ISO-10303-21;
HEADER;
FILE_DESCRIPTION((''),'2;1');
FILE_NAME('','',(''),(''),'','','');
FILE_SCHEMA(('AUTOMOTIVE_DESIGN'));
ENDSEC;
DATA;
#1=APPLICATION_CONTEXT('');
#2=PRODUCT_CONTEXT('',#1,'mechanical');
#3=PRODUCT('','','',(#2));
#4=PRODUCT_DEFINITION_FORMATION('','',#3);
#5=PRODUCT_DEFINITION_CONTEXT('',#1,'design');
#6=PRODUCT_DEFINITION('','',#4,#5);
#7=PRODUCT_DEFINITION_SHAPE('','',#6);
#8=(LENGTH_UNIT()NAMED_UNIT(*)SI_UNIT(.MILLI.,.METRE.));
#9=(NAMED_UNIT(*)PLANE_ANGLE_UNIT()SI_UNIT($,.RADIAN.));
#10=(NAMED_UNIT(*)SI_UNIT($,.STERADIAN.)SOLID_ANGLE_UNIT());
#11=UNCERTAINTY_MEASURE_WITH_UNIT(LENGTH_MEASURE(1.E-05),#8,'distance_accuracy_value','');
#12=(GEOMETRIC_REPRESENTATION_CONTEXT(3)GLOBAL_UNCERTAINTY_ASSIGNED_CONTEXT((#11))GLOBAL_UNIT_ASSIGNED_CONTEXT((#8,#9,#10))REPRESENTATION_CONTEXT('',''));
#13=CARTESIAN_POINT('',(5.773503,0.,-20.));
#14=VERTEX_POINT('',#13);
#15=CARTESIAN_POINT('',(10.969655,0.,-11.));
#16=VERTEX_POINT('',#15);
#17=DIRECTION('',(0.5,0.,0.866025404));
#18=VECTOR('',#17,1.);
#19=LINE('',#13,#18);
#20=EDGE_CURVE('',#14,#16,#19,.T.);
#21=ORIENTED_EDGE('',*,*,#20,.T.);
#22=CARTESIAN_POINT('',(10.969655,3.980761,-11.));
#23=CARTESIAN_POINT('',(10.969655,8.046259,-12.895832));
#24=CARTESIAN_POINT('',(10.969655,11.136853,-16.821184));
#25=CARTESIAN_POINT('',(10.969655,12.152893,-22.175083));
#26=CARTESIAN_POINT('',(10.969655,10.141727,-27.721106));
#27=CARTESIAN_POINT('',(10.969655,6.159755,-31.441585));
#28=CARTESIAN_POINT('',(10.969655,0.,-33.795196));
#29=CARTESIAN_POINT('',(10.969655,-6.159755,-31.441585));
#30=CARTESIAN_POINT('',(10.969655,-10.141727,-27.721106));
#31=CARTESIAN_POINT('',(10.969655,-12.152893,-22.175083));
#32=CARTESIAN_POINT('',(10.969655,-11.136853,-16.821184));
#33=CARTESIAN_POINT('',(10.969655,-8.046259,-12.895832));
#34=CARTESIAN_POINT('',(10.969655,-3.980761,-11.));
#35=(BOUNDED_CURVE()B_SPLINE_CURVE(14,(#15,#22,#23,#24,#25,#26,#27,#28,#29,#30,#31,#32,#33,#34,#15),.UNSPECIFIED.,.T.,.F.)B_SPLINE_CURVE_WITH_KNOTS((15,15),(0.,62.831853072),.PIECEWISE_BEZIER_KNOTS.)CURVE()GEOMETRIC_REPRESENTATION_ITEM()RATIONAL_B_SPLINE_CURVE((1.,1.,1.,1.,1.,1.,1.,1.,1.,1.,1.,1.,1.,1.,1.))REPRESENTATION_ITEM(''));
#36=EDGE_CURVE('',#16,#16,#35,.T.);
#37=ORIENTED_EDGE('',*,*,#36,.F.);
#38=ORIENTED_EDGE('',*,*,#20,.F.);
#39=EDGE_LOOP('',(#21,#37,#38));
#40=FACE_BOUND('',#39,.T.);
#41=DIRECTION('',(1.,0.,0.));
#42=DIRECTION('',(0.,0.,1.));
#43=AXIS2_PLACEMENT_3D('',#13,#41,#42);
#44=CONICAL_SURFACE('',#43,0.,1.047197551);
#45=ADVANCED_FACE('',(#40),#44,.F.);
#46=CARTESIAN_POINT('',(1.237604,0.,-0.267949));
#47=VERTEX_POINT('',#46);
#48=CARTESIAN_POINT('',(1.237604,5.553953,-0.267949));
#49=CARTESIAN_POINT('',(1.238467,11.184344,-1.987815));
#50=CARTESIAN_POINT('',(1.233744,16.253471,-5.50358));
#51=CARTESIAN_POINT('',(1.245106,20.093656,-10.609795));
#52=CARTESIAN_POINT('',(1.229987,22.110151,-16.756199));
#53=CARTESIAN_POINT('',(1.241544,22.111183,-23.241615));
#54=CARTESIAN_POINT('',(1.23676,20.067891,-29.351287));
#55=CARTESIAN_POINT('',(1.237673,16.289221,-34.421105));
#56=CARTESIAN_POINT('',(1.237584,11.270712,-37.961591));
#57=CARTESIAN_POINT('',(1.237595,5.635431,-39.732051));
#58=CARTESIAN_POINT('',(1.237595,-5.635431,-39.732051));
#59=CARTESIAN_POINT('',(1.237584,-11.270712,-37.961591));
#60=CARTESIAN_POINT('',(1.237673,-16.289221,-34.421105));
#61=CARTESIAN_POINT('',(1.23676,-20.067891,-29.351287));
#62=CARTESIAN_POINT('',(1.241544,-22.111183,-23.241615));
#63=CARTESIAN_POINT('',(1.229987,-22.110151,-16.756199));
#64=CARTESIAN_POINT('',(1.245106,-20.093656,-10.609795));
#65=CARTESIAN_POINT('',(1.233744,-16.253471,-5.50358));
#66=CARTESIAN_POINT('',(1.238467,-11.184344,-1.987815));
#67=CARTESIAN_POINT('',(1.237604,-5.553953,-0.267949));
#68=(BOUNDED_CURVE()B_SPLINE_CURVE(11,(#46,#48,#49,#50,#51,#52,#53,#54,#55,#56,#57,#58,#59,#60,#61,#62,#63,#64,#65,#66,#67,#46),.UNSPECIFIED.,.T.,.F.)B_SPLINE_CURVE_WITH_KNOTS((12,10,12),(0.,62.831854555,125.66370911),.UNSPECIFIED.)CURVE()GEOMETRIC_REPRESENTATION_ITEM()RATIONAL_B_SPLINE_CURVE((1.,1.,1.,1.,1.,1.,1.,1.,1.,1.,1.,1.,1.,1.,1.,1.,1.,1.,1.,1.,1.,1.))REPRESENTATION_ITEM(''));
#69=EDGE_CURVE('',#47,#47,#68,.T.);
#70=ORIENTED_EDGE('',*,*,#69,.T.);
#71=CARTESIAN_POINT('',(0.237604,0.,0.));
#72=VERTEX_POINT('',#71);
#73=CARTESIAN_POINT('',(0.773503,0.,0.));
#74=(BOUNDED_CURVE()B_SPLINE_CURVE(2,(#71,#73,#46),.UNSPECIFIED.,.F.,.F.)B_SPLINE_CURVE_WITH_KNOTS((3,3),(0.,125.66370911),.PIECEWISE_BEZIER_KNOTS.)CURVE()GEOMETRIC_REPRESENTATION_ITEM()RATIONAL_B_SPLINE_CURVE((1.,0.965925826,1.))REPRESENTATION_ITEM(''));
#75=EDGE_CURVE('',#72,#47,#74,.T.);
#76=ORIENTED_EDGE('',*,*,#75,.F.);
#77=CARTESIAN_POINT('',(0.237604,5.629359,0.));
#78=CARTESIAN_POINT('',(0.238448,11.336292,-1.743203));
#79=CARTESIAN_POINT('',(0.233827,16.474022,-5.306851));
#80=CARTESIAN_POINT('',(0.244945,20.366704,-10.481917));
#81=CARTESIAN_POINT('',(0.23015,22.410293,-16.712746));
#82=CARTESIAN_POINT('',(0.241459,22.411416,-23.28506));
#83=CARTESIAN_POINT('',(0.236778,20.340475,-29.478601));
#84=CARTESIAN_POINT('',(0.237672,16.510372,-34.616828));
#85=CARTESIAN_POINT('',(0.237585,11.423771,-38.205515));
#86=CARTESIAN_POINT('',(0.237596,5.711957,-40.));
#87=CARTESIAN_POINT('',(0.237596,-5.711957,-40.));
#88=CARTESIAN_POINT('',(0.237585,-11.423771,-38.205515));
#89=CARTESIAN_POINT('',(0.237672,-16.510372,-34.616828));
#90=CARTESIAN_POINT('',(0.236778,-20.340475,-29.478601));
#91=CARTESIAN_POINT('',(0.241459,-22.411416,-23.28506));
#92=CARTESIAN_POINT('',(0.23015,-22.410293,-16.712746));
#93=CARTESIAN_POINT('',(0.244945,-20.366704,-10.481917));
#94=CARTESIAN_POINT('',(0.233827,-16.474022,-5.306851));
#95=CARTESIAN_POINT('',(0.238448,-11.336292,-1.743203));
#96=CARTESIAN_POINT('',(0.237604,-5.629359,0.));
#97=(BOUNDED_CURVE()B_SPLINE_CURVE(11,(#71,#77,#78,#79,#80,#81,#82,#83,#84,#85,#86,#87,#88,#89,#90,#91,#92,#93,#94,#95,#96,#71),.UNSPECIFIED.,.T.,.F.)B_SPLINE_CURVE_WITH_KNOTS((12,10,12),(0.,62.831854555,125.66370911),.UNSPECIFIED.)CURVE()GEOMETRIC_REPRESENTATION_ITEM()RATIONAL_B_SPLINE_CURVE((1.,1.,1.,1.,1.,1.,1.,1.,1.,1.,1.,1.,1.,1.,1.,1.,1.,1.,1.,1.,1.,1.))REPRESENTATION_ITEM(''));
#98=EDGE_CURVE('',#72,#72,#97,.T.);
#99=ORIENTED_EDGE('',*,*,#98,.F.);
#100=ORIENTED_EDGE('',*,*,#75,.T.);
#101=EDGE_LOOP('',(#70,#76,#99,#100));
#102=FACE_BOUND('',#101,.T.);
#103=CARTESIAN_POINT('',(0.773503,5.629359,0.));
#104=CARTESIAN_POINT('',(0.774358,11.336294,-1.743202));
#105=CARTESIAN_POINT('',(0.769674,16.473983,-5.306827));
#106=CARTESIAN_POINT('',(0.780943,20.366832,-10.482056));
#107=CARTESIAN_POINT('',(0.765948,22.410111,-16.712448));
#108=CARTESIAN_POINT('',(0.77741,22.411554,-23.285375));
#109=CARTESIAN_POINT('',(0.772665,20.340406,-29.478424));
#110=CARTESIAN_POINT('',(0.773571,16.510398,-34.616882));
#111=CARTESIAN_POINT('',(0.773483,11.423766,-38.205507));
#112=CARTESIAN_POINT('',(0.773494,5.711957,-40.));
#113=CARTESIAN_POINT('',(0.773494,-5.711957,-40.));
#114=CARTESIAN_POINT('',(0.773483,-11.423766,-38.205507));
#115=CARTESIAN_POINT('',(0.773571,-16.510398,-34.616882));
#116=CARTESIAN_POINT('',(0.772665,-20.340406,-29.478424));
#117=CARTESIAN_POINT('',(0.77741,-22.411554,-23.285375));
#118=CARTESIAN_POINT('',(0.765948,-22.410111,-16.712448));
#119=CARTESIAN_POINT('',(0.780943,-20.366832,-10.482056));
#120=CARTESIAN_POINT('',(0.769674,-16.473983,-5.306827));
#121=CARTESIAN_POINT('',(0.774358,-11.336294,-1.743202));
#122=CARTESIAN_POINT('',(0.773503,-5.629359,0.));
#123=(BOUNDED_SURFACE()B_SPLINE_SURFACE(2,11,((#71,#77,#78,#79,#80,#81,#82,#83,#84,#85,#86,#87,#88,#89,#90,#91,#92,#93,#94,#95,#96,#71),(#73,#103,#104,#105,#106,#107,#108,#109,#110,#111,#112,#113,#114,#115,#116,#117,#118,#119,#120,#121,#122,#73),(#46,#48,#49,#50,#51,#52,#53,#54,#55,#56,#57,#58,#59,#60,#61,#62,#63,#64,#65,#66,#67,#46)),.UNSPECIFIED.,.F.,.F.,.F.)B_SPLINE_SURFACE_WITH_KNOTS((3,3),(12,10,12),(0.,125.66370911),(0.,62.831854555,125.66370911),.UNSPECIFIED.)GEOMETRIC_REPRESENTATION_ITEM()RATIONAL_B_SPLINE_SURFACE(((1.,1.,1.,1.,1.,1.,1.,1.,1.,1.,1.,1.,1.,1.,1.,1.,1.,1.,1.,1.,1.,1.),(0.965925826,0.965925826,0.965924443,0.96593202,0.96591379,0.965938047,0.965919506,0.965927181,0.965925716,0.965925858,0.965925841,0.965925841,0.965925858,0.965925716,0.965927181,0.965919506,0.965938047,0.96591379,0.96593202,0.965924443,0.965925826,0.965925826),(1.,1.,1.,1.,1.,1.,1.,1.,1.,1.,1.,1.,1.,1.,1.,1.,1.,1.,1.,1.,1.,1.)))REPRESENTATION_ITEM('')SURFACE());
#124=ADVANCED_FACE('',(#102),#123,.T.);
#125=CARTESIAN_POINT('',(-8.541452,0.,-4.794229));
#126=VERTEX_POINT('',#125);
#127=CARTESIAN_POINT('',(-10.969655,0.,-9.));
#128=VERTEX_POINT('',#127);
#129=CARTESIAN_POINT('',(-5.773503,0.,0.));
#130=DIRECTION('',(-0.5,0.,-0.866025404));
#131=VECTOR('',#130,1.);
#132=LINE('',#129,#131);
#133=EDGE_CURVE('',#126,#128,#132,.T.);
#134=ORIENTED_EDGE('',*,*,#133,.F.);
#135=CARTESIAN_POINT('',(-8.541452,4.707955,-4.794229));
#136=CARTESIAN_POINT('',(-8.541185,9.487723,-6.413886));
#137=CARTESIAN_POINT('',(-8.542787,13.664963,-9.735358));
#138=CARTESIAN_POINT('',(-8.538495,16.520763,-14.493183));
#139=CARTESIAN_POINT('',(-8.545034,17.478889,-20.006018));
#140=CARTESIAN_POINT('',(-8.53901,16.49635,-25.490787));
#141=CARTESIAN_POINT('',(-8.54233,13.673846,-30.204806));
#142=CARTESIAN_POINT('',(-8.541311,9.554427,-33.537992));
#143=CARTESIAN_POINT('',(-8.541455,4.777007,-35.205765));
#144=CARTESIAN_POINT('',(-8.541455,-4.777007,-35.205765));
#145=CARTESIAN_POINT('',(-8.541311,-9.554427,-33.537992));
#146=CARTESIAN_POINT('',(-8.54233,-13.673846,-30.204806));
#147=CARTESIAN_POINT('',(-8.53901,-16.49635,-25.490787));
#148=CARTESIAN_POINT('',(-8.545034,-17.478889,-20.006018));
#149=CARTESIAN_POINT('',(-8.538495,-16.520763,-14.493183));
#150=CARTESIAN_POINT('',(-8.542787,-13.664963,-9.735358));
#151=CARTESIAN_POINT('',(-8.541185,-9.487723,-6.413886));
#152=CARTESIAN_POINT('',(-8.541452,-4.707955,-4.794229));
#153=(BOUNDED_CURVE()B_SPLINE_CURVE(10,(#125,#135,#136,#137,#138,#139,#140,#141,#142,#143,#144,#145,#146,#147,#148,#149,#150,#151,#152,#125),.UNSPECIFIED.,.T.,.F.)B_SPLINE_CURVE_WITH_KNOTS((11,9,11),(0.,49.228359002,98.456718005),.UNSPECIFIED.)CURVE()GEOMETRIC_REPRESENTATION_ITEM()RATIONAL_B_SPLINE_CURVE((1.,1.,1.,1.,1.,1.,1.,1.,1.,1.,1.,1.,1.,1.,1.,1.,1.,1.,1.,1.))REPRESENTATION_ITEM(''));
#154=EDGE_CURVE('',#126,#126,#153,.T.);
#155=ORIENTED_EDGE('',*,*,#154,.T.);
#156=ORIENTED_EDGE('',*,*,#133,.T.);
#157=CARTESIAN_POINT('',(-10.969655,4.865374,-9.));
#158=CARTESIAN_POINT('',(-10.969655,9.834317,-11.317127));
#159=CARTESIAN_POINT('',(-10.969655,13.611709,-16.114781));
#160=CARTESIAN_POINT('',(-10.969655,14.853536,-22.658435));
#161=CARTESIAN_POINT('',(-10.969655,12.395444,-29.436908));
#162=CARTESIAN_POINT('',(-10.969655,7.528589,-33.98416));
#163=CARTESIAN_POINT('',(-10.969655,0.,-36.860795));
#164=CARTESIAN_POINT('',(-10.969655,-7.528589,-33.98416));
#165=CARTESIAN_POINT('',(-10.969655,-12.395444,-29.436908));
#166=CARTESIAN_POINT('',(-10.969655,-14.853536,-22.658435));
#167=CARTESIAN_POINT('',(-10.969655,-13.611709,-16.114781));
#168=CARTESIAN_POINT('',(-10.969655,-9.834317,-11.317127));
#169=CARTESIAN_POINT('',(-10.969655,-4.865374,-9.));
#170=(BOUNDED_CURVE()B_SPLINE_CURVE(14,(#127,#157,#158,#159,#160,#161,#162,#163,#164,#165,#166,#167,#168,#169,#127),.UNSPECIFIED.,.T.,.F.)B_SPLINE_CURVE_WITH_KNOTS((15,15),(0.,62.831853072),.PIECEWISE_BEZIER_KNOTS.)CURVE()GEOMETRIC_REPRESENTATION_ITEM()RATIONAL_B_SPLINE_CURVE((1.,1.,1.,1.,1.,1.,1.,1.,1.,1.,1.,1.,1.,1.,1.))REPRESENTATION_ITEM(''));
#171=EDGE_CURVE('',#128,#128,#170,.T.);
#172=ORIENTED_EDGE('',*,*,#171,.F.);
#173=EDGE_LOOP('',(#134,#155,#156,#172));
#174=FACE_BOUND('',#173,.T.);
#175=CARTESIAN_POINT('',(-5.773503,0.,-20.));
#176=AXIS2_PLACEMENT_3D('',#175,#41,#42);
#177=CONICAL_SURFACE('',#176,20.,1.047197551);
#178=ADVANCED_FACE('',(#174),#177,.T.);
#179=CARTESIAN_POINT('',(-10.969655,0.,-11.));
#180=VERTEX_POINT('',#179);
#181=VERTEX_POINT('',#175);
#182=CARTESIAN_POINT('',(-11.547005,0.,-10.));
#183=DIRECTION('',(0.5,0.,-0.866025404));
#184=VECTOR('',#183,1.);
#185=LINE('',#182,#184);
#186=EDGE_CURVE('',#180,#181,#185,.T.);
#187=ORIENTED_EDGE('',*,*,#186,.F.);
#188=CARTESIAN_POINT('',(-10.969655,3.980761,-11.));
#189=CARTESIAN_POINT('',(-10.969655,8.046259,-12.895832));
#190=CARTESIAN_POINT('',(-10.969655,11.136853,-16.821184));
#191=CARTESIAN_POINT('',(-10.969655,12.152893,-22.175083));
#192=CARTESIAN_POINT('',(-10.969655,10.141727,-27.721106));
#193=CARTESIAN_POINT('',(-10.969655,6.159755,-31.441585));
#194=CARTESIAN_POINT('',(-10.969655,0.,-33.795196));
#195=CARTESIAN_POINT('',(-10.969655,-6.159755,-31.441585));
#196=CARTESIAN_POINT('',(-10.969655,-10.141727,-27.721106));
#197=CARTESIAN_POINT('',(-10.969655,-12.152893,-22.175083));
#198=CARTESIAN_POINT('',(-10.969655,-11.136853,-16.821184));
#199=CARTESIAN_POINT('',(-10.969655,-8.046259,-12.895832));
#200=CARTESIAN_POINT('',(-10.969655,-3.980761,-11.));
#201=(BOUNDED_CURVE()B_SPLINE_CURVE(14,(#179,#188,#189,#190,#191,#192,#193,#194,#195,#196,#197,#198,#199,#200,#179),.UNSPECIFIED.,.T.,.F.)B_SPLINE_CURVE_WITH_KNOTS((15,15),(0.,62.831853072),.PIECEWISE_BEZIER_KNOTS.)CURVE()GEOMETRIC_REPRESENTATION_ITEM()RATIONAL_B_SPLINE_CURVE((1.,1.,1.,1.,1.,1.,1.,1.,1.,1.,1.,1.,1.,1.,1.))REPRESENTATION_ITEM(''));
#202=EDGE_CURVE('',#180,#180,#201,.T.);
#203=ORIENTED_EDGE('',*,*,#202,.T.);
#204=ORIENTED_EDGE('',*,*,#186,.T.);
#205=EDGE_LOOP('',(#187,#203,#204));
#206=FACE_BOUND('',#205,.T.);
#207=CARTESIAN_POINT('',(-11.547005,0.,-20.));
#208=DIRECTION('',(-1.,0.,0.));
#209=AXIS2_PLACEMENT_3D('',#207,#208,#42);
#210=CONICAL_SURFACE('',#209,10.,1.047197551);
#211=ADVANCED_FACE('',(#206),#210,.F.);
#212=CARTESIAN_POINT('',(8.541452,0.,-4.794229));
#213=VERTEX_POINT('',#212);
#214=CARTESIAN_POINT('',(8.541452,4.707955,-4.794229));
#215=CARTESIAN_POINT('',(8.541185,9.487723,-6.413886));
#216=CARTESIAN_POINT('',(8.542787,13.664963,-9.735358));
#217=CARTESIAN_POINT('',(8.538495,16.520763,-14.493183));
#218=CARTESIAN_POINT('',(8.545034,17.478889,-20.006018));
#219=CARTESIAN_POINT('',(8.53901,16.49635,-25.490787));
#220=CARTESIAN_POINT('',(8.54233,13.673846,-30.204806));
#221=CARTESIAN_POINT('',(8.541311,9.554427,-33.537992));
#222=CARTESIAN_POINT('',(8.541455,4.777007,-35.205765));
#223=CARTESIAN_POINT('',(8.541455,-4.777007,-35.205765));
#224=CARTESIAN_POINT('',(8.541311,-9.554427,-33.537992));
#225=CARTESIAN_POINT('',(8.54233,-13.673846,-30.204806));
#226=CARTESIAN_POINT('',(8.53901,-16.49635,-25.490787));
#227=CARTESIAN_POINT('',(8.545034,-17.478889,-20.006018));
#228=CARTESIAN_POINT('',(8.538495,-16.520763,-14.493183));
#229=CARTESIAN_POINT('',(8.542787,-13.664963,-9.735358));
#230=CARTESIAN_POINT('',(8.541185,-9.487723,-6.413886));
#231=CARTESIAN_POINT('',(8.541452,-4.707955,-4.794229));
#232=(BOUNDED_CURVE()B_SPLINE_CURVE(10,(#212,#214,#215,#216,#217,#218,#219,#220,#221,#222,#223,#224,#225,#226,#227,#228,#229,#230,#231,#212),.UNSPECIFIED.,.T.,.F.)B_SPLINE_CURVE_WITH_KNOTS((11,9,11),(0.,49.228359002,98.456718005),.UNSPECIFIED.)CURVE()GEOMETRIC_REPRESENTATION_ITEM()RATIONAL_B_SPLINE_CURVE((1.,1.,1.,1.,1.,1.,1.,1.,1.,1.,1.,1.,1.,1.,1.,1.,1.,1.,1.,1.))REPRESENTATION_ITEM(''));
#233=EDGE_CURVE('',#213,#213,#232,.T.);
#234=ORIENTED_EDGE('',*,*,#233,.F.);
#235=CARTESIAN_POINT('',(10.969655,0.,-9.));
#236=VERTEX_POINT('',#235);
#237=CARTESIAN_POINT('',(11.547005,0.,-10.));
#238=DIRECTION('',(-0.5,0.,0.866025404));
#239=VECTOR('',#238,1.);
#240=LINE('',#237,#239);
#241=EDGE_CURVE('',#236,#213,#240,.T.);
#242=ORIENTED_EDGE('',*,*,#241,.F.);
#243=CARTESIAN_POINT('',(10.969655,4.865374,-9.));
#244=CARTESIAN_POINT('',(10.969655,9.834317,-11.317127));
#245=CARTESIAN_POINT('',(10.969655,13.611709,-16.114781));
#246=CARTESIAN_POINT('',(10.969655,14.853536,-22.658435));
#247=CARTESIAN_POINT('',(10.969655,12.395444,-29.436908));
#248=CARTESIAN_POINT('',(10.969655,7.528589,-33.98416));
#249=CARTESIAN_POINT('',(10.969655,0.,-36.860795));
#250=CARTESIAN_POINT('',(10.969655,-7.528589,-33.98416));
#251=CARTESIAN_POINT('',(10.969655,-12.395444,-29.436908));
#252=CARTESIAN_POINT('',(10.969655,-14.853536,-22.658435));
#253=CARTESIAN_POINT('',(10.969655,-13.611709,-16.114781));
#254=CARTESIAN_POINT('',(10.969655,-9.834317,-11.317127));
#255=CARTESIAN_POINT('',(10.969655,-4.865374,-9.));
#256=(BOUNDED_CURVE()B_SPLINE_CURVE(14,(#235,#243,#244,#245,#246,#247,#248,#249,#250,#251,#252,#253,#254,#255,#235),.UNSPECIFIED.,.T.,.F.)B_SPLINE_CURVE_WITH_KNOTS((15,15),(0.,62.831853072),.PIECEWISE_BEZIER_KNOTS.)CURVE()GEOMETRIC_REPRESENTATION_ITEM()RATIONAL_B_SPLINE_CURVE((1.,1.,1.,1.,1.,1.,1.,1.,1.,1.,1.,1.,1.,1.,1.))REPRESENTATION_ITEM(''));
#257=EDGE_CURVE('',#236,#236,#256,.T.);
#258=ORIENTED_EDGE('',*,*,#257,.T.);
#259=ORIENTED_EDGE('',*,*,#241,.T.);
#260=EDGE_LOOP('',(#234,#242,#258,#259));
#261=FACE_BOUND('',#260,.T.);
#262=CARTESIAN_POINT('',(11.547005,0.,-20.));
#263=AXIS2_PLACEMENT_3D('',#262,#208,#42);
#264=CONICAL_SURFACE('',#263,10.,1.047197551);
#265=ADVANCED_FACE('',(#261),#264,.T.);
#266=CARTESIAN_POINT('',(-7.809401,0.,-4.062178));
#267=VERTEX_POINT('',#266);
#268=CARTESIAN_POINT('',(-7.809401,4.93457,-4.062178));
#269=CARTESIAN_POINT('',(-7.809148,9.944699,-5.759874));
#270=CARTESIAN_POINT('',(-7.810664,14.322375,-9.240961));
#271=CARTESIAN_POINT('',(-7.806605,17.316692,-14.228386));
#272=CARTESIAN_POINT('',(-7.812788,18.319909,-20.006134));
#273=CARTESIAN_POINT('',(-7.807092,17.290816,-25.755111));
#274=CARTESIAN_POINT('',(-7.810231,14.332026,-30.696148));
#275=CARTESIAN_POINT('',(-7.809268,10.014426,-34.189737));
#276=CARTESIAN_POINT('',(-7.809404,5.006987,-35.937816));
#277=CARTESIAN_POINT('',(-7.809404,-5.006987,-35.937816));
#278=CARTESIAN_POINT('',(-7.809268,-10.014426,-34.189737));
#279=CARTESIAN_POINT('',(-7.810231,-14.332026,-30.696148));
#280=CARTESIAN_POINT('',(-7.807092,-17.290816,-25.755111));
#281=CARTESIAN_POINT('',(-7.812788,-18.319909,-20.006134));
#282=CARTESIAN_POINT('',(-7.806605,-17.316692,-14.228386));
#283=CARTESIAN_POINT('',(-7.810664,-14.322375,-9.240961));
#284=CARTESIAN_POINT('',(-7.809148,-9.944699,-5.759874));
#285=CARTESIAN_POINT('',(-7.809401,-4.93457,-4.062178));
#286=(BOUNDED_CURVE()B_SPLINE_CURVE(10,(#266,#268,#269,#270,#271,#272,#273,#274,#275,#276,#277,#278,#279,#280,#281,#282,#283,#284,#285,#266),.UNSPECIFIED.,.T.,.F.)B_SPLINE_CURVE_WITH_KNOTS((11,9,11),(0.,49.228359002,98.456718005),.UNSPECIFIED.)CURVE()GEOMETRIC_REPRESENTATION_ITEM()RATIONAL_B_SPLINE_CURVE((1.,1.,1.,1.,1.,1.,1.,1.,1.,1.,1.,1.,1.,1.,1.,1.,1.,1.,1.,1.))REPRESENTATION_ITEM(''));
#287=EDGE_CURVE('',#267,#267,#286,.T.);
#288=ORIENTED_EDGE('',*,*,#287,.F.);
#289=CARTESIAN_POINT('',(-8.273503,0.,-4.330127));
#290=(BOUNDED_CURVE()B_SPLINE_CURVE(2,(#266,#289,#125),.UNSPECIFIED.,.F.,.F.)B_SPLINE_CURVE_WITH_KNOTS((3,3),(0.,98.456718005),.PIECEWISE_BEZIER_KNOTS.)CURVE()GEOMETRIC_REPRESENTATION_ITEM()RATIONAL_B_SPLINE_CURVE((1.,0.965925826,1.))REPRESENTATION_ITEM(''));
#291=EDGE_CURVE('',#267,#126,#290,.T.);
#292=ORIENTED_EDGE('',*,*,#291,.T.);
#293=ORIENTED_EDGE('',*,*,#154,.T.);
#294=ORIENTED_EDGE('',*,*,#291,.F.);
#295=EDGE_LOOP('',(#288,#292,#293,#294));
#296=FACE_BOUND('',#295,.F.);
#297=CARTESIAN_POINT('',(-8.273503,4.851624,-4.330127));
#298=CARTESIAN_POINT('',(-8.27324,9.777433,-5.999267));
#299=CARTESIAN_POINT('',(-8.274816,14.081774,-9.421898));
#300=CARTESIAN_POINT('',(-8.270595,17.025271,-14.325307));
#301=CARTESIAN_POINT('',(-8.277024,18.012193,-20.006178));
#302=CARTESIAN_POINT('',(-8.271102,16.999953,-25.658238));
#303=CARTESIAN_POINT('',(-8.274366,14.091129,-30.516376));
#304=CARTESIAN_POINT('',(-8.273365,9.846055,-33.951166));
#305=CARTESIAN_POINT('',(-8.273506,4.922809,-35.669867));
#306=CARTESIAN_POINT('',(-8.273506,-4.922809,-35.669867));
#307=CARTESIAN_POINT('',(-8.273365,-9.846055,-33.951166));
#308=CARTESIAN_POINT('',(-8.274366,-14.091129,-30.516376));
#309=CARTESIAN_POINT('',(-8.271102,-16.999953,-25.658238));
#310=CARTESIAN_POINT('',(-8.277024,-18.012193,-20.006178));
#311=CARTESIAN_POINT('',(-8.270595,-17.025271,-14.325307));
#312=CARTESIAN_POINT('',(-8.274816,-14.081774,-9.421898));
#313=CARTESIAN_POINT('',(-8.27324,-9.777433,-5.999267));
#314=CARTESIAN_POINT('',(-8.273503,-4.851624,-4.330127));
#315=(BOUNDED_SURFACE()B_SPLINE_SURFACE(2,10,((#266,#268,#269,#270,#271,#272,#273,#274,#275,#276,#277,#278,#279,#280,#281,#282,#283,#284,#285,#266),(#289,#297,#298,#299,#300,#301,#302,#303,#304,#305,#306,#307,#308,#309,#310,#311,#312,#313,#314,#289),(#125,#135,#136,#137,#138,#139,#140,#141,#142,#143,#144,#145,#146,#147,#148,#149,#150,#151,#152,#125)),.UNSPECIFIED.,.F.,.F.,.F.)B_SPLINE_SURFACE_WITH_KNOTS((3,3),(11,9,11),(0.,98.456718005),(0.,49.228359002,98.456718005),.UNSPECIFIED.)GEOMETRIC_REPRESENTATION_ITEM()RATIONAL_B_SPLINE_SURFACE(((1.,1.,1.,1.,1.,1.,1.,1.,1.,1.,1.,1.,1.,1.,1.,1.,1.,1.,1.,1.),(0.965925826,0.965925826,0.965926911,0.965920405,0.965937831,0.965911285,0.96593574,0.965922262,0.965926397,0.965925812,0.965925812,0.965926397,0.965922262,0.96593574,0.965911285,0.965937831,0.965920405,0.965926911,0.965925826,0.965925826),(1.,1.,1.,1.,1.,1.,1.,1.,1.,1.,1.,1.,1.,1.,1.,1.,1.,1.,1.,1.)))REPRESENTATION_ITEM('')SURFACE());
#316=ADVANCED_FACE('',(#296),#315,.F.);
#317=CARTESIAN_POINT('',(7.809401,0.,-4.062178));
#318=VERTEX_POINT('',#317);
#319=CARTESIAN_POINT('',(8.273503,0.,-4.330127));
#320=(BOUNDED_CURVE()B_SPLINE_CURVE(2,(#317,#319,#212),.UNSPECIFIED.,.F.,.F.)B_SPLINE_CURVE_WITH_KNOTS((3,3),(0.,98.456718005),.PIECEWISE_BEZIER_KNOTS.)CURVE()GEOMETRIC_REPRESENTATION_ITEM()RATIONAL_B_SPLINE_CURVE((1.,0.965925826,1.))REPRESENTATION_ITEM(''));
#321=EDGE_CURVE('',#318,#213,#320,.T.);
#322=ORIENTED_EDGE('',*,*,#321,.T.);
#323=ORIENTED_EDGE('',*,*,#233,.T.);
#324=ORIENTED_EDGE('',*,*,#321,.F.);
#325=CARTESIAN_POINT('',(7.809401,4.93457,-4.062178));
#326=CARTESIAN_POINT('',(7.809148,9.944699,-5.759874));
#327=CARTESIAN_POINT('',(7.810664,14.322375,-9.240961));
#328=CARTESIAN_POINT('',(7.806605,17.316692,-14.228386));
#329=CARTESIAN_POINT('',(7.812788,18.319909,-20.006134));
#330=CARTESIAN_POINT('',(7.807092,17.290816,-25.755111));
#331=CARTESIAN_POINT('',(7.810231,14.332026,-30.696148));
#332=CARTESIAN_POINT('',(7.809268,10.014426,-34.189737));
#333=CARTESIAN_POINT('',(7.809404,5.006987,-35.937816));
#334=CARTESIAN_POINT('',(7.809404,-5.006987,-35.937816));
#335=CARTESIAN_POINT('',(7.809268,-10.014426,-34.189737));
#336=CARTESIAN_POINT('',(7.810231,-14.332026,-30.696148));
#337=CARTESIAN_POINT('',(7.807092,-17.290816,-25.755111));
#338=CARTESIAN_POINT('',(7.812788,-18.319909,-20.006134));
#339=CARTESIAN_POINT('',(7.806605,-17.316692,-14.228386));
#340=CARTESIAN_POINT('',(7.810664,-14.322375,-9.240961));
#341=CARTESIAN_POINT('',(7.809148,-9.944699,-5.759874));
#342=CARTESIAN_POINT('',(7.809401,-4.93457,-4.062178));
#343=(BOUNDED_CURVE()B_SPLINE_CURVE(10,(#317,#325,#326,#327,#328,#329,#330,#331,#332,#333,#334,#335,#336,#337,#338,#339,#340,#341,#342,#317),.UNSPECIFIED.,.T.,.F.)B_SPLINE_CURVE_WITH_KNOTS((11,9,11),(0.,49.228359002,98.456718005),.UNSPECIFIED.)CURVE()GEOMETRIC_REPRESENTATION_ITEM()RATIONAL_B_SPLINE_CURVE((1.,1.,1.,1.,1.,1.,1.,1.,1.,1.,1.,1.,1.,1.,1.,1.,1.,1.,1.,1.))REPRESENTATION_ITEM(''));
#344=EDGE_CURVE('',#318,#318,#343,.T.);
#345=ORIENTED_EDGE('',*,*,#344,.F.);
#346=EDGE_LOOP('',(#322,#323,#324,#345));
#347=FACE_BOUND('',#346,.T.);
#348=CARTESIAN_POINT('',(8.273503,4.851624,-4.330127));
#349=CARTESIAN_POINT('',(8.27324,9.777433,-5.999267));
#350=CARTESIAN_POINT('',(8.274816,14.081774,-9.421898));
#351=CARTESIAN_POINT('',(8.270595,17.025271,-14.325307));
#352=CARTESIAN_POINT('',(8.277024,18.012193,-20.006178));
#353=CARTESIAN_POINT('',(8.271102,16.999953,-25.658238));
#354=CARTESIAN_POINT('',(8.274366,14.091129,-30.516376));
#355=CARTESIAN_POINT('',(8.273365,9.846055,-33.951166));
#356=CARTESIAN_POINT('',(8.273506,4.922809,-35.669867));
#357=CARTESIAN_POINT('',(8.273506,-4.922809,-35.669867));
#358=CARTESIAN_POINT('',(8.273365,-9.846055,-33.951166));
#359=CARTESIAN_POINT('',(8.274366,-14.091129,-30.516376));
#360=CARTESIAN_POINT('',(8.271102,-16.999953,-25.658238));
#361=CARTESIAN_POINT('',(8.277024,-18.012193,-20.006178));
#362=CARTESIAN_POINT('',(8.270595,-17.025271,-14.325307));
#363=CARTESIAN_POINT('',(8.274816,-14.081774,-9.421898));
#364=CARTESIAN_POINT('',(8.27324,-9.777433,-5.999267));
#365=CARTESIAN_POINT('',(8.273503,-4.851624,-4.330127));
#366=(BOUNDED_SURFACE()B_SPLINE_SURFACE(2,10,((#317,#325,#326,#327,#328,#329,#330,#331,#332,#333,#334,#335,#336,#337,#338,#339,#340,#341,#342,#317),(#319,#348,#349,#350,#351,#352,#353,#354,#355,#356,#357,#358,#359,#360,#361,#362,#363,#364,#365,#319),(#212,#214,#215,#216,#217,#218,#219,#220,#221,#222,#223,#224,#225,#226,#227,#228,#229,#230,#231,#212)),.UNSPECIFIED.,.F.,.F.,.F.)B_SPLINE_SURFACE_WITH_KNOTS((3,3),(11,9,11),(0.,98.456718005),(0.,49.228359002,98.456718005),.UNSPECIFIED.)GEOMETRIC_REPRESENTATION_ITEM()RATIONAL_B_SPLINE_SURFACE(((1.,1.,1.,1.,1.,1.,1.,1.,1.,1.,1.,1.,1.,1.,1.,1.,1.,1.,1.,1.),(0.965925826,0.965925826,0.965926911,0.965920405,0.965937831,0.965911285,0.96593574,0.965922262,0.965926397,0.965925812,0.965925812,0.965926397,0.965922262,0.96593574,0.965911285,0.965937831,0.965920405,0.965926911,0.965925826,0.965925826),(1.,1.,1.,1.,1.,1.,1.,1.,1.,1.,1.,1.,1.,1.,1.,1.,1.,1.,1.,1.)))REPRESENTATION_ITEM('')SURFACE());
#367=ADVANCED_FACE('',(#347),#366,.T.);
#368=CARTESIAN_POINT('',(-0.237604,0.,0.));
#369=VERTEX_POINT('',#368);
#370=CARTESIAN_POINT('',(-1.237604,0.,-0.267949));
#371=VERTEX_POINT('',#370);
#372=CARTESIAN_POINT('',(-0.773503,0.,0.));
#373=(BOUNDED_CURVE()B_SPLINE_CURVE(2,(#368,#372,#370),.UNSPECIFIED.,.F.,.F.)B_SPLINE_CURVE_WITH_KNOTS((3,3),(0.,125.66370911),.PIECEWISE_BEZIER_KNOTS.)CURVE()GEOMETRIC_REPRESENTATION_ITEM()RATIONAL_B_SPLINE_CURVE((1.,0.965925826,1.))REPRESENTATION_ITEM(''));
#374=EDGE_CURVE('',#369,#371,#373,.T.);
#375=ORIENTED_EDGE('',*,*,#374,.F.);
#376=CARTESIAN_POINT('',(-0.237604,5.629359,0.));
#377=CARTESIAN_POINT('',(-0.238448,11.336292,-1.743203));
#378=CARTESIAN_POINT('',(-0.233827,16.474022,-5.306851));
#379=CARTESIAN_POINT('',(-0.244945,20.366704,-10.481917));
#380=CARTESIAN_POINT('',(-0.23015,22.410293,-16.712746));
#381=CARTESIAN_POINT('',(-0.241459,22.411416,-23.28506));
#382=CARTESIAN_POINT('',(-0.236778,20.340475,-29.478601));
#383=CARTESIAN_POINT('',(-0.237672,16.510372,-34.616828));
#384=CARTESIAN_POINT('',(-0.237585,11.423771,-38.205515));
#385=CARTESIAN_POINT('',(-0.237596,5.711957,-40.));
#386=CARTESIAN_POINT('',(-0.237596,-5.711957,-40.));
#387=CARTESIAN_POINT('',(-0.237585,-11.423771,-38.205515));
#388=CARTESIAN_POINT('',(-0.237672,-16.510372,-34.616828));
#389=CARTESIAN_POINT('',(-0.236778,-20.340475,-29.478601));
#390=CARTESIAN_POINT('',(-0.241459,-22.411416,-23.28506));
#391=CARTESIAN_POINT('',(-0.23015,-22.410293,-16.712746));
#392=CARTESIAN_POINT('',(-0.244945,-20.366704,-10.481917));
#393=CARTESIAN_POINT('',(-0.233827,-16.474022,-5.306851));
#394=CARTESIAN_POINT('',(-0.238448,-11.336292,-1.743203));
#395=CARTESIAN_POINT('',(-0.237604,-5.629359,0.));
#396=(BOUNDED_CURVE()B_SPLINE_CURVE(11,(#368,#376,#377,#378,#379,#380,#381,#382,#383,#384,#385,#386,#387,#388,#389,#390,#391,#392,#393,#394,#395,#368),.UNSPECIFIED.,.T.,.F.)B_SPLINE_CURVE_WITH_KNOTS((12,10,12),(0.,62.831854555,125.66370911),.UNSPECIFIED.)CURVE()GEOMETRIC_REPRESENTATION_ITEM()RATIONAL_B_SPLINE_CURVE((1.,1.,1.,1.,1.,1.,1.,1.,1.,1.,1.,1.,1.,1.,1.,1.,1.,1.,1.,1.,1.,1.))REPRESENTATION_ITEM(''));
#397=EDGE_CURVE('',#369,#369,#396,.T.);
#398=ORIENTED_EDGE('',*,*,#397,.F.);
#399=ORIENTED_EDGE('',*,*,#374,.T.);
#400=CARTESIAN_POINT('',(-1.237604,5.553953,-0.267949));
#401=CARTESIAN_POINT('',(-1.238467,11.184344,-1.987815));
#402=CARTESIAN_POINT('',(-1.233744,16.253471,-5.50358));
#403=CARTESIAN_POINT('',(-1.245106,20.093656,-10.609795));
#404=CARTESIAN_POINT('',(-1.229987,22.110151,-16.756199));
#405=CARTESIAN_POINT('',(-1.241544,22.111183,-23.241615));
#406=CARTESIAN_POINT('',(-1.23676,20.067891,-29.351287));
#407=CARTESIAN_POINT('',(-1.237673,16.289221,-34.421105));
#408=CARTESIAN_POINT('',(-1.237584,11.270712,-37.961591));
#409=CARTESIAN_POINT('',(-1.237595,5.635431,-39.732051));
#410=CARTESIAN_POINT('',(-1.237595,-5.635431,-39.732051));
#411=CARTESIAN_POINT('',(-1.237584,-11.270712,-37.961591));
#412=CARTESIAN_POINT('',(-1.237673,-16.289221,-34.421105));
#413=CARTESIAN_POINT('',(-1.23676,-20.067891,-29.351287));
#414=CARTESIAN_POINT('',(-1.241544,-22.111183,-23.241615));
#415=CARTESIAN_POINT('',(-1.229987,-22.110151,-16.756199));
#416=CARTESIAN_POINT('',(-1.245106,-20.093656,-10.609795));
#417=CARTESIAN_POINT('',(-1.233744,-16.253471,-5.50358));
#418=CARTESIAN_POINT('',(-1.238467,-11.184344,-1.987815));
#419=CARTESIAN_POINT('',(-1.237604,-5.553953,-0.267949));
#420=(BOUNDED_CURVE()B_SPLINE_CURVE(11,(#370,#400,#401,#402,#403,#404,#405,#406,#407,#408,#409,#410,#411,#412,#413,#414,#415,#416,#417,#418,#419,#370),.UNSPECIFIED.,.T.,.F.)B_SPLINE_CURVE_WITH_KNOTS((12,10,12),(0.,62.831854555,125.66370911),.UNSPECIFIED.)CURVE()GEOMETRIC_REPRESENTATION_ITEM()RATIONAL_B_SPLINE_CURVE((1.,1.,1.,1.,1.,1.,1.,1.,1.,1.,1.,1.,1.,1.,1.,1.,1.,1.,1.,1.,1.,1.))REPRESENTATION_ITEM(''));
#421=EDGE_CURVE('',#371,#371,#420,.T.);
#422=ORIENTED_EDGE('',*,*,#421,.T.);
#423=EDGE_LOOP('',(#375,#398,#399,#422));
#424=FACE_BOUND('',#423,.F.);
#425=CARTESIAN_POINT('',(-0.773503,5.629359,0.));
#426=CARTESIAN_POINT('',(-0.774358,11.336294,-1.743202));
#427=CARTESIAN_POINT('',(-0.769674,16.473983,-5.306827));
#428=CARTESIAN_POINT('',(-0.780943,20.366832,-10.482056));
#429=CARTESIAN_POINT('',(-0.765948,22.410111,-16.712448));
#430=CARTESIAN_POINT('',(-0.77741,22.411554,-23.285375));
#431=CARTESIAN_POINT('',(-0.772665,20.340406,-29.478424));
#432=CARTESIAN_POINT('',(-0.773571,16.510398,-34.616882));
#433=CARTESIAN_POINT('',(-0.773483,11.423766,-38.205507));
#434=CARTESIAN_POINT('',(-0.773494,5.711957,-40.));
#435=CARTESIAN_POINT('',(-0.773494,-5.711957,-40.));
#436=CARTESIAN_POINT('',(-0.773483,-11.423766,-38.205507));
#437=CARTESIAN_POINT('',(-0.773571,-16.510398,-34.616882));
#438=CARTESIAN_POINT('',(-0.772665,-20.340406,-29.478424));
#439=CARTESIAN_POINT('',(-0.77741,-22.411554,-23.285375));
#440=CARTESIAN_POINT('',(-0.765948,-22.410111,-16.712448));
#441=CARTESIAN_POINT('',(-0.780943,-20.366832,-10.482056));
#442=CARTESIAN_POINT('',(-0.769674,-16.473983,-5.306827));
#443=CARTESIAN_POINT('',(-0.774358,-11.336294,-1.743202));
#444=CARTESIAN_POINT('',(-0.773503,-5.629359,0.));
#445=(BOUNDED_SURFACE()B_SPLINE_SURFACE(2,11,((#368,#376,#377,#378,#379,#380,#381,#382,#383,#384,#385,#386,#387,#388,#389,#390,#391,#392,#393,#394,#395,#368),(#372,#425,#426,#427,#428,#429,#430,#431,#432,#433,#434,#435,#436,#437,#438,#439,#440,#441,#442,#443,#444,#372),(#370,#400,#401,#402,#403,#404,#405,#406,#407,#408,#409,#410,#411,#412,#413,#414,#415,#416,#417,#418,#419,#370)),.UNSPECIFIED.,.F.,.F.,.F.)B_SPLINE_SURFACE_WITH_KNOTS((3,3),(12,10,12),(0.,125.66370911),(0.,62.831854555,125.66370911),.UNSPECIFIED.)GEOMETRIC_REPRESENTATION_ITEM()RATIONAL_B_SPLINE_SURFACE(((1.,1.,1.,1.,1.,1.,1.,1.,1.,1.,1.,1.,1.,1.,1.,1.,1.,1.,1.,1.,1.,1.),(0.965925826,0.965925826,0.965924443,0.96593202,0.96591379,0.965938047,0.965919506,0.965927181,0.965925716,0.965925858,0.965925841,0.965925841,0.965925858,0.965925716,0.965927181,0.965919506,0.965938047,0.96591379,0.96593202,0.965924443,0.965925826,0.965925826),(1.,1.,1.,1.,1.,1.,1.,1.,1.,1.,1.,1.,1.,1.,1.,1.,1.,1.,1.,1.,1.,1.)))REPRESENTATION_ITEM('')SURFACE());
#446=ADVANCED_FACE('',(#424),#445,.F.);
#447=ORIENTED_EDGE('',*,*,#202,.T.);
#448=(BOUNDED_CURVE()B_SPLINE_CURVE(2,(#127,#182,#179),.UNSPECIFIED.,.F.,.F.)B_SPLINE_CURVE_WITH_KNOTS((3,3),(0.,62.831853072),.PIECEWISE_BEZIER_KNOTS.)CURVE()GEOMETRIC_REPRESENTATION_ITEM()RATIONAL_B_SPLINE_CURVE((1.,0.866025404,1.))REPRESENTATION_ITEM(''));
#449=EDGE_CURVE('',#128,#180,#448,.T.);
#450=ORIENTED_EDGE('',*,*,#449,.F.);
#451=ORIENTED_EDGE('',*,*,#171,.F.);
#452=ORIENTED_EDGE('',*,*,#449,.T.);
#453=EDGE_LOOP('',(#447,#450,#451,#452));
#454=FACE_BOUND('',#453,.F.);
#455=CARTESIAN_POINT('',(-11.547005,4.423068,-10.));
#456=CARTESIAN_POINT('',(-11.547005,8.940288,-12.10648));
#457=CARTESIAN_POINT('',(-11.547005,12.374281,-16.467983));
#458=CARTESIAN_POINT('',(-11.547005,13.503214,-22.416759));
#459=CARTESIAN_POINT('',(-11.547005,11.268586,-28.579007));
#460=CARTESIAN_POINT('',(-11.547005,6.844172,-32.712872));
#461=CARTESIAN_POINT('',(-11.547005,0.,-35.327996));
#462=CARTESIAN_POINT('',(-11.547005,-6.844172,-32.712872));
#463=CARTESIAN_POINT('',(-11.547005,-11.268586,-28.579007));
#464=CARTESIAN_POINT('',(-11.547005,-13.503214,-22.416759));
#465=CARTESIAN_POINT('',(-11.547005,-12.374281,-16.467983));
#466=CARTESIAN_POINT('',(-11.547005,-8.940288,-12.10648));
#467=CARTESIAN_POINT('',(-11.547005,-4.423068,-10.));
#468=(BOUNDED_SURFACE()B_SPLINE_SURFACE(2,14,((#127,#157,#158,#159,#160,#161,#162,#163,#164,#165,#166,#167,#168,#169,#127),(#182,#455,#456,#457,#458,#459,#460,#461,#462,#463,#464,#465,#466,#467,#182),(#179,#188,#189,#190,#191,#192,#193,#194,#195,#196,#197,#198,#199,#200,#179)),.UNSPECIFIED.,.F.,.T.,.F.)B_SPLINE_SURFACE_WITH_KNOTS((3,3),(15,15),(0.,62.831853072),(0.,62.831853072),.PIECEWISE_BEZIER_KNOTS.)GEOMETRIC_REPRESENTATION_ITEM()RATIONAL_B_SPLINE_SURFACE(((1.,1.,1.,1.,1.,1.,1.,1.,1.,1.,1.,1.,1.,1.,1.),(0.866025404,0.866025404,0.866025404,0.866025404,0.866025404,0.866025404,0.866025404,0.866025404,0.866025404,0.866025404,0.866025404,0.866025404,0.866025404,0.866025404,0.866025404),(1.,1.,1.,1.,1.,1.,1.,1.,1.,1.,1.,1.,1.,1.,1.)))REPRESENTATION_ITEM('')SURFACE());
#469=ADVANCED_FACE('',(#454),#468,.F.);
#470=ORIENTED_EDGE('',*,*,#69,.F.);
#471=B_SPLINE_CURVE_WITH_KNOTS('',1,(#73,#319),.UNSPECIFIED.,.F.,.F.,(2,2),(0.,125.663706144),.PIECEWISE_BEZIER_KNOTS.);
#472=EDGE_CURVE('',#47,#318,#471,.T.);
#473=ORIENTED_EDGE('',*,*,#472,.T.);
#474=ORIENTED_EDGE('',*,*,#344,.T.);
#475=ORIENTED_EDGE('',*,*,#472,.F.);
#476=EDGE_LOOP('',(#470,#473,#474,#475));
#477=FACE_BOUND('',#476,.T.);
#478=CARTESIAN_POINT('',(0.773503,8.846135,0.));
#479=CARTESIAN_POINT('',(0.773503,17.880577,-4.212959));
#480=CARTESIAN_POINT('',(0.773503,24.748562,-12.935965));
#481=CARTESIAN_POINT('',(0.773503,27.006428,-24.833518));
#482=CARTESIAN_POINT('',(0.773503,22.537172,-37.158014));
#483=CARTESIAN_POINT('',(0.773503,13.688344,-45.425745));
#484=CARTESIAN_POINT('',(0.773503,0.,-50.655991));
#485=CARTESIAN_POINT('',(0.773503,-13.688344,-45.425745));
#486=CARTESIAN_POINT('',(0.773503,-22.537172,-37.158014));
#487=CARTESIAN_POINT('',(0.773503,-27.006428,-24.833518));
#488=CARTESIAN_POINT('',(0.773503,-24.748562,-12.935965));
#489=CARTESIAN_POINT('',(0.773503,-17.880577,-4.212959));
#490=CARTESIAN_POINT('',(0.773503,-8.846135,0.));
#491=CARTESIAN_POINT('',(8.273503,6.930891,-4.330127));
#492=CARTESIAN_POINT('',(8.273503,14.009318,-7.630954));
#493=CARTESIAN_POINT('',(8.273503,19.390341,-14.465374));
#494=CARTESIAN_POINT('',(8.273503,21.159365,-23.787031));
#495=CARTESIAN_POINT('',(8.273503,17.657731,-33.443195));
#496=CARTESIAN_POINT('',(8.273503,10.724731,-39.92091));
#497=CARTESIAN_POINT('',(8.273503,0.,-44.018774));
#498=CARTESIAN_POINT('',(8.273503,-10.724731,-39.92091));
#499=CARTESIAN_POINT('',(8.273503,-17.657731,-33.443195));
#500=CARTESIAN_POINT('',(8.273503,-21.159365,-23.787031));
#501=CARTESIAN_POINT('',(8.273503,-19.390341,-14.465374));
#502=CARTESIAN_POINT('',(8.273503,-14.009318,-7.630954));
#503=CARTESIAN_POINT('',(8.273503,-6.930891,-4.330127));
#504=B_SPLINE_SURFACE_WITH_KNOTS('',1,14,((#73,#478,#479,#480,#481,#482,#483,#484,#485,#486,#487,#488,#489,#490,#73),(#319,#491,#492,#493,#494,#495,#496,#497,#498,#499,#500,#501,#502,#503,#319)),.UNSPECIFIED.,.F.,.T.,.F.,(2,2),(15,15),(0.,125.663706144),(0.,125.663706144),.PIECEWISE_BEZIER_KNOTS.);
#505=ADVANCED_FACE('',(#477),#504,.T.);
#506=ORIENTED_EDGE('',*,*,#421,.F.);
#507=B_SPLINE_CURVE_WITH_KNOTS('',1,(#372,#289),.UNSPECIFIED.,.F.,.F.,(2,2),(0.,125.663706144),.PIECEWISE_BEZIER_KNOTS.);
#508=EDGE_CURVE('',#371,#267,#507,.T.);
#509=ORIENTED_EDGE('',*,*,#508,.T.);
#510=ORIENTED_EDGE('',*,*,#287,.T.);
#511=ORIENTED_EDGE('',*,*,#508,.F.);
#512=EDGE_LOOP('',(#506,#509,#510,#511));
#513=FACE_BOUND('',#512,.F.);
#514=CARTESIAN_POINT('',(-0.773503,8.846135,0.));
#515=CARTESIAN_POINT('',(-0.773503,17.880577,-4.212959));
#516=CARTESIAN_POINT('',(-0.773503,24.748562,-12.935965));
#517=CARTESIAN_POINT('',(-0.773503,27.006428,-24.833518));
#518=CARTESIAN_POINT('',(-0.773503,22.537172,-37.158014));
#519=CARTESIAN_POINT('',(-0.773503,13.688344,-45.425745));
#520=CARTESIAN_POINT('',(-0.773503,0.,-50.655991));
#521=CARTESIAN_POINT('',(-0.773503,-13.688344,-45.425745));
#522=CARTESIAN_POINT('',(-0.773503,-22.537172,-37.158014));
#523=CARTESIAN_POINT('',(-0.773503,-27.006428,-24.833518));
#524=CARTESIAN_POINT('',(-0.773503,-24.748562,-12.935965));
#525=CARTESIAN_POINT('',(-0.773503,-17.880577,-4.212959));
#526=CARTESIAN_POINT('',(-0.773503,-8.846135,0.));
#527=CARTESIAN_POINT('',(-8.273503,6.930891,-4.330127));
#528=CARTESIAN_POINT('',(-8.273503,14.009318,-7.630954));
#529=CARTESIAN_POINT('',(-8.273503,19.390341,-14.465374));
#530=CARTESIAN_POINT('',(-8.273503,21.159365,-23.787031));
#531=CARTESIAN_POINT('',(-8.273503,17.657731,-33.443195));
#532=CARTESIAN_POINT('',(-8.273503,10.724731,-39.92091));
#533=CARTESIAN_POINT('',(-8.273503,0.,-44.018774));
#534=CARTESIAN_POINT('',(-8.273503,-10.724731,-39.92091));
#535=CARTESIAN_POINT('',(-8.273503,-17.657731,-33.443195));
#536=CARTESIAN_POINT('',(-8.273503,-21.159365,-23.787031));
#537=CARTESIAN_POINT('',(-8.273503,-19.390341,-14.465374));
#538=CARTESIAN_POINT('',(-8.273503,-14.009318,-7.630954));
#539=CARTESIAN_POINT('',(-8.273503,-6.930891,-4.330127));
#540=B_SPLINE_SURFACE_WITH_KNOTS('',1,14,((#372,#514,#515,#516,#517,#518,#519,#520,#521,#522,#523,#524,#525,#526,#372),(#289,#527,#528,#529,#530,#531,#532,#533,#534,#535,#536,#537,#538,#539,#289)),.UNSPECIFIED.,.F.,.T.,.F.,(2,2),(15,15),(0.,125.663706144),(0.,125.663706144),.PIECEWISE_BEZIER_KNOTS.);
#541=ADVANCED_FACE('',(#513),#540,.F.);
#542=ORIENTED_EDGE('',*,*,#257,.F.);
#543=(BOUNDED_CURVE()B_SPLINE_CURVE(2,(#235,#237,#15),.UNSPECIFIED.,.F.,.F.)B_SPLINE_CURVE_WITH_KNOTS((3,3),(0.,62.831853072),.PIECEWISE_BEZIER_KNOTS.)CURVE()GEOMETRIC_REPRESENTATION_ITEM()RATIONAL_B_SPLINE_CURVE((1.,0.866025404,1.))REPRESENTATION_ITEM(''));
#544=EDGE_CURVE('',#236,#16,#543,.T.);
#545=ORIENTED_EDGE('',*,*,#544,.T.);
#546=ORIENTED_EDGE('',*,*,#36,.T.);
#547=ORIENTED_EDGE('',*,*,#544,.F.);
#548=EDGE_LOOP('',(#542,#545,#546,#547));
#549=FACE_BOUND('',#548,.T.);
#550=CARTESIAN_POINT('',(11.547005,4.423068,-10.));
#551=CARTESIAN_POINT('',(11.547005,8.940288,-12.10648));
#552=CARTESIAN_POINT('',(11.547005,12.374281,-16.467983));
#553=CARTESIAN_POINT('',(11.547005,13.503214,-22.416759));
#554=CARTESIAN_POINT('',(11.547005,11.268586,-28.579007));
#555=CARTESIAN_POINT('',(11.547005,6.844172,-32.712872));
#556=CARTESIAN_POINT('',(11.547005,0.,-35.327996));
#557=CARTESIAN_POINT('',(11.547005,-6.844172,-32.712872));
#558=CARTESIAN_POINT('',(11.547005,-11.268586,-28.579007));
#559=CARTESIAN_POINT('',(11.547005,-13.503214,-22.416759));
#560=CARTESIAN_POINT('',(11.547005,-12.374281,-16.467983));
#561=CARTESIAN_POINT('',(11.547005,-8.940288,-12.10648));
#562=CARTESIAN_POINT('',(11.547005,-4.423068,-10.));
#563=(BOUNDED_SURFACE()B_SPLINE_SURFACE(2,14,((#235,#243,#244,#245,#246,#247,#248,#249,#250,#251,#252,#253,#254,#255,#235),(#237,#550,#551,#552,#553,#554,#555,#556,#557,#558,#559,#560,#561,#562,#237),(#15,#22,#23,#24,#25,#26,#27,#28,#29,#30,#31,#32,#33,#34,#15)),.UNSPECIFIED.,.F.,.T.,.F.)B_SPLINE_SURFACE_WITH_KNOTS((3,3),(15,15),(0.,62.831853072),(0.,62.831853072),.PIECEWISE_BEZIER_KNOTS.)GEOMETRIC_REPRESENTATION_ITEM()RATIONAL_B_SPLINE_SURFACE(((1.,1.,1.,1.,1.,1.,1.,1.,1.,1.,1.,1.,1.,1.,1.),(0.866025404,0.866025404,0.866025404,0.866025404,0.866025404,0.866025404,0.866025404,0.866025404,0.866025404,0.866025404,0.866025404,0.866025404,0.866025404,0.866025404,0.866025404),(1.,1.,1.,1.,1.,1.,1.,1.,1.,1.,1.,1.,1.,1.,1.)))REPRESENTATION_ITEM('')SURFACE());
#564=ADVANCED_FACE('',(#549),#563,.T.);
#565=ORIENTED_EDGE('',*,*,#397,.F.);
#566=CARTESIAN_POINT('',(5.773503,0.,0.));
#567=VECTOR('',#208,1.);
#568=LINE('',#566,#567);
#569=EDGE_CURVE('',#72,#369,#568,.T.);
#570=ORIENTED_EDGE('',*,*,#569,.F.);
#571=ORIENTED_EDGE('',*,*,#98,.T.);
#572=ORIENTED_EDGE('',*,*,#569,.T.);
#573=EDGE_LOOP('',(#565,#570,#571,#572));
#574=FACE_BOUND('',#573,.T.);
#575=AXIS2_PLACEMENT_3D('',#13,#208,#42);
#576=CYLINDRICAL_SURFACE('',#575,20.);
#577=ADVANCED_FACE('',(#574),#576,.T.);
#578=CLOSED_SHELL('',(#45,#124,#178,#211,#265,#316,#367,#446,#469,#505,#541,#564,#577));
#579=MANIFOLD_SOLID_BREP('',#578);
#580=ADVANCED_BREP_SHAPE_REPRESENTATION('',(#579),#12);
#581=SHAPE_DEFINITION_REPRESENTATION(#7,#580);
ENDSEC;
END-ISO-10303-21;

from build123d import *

# Parameters (mm, degrees)
F2_SIZE = 5
F3_R    = 2


with BuildPart() as f1:
    # F0 (on Front) → F1 (revolve)
    with BuildSketch(Plane.XZ):
        Polygon((5.7735026919, 0), (-5.7735026919, 0), (-11.5470053838, -10), (-5.7735026919, -20), (5.7735026919, -20), (11.5470053838, -10), align=None)
    revolve(axis=Axis((0, 0, -20), (-1, 0, 0)))

    # F2
    f2_edges = [f1.edges().sort_by_distance(p)[0] for p in [
        (5.773503, 0, -40),
        (-5.773503, 0, -40),
        (0, 0, 0),
    ]]
    chamfer(f2_edges, length=F2_SIZE)

    # F3
    f3_edges = [f1.edges().sort_by_distance(p)[0] for p in [
        (-11.547005, 0, -30),
        (-8.273503, 0, -35.669869),
        (-0.773503, 0, -39.999995),
        (0.773503, 0, -39.999995),
        (8.273503, 0, -35.669869),
        (11.547005, 0, -30),
        (8.660254, 0, -15),
    ]]
    fillet(f3_edges, radius=F3_R)


solid = f1.part
